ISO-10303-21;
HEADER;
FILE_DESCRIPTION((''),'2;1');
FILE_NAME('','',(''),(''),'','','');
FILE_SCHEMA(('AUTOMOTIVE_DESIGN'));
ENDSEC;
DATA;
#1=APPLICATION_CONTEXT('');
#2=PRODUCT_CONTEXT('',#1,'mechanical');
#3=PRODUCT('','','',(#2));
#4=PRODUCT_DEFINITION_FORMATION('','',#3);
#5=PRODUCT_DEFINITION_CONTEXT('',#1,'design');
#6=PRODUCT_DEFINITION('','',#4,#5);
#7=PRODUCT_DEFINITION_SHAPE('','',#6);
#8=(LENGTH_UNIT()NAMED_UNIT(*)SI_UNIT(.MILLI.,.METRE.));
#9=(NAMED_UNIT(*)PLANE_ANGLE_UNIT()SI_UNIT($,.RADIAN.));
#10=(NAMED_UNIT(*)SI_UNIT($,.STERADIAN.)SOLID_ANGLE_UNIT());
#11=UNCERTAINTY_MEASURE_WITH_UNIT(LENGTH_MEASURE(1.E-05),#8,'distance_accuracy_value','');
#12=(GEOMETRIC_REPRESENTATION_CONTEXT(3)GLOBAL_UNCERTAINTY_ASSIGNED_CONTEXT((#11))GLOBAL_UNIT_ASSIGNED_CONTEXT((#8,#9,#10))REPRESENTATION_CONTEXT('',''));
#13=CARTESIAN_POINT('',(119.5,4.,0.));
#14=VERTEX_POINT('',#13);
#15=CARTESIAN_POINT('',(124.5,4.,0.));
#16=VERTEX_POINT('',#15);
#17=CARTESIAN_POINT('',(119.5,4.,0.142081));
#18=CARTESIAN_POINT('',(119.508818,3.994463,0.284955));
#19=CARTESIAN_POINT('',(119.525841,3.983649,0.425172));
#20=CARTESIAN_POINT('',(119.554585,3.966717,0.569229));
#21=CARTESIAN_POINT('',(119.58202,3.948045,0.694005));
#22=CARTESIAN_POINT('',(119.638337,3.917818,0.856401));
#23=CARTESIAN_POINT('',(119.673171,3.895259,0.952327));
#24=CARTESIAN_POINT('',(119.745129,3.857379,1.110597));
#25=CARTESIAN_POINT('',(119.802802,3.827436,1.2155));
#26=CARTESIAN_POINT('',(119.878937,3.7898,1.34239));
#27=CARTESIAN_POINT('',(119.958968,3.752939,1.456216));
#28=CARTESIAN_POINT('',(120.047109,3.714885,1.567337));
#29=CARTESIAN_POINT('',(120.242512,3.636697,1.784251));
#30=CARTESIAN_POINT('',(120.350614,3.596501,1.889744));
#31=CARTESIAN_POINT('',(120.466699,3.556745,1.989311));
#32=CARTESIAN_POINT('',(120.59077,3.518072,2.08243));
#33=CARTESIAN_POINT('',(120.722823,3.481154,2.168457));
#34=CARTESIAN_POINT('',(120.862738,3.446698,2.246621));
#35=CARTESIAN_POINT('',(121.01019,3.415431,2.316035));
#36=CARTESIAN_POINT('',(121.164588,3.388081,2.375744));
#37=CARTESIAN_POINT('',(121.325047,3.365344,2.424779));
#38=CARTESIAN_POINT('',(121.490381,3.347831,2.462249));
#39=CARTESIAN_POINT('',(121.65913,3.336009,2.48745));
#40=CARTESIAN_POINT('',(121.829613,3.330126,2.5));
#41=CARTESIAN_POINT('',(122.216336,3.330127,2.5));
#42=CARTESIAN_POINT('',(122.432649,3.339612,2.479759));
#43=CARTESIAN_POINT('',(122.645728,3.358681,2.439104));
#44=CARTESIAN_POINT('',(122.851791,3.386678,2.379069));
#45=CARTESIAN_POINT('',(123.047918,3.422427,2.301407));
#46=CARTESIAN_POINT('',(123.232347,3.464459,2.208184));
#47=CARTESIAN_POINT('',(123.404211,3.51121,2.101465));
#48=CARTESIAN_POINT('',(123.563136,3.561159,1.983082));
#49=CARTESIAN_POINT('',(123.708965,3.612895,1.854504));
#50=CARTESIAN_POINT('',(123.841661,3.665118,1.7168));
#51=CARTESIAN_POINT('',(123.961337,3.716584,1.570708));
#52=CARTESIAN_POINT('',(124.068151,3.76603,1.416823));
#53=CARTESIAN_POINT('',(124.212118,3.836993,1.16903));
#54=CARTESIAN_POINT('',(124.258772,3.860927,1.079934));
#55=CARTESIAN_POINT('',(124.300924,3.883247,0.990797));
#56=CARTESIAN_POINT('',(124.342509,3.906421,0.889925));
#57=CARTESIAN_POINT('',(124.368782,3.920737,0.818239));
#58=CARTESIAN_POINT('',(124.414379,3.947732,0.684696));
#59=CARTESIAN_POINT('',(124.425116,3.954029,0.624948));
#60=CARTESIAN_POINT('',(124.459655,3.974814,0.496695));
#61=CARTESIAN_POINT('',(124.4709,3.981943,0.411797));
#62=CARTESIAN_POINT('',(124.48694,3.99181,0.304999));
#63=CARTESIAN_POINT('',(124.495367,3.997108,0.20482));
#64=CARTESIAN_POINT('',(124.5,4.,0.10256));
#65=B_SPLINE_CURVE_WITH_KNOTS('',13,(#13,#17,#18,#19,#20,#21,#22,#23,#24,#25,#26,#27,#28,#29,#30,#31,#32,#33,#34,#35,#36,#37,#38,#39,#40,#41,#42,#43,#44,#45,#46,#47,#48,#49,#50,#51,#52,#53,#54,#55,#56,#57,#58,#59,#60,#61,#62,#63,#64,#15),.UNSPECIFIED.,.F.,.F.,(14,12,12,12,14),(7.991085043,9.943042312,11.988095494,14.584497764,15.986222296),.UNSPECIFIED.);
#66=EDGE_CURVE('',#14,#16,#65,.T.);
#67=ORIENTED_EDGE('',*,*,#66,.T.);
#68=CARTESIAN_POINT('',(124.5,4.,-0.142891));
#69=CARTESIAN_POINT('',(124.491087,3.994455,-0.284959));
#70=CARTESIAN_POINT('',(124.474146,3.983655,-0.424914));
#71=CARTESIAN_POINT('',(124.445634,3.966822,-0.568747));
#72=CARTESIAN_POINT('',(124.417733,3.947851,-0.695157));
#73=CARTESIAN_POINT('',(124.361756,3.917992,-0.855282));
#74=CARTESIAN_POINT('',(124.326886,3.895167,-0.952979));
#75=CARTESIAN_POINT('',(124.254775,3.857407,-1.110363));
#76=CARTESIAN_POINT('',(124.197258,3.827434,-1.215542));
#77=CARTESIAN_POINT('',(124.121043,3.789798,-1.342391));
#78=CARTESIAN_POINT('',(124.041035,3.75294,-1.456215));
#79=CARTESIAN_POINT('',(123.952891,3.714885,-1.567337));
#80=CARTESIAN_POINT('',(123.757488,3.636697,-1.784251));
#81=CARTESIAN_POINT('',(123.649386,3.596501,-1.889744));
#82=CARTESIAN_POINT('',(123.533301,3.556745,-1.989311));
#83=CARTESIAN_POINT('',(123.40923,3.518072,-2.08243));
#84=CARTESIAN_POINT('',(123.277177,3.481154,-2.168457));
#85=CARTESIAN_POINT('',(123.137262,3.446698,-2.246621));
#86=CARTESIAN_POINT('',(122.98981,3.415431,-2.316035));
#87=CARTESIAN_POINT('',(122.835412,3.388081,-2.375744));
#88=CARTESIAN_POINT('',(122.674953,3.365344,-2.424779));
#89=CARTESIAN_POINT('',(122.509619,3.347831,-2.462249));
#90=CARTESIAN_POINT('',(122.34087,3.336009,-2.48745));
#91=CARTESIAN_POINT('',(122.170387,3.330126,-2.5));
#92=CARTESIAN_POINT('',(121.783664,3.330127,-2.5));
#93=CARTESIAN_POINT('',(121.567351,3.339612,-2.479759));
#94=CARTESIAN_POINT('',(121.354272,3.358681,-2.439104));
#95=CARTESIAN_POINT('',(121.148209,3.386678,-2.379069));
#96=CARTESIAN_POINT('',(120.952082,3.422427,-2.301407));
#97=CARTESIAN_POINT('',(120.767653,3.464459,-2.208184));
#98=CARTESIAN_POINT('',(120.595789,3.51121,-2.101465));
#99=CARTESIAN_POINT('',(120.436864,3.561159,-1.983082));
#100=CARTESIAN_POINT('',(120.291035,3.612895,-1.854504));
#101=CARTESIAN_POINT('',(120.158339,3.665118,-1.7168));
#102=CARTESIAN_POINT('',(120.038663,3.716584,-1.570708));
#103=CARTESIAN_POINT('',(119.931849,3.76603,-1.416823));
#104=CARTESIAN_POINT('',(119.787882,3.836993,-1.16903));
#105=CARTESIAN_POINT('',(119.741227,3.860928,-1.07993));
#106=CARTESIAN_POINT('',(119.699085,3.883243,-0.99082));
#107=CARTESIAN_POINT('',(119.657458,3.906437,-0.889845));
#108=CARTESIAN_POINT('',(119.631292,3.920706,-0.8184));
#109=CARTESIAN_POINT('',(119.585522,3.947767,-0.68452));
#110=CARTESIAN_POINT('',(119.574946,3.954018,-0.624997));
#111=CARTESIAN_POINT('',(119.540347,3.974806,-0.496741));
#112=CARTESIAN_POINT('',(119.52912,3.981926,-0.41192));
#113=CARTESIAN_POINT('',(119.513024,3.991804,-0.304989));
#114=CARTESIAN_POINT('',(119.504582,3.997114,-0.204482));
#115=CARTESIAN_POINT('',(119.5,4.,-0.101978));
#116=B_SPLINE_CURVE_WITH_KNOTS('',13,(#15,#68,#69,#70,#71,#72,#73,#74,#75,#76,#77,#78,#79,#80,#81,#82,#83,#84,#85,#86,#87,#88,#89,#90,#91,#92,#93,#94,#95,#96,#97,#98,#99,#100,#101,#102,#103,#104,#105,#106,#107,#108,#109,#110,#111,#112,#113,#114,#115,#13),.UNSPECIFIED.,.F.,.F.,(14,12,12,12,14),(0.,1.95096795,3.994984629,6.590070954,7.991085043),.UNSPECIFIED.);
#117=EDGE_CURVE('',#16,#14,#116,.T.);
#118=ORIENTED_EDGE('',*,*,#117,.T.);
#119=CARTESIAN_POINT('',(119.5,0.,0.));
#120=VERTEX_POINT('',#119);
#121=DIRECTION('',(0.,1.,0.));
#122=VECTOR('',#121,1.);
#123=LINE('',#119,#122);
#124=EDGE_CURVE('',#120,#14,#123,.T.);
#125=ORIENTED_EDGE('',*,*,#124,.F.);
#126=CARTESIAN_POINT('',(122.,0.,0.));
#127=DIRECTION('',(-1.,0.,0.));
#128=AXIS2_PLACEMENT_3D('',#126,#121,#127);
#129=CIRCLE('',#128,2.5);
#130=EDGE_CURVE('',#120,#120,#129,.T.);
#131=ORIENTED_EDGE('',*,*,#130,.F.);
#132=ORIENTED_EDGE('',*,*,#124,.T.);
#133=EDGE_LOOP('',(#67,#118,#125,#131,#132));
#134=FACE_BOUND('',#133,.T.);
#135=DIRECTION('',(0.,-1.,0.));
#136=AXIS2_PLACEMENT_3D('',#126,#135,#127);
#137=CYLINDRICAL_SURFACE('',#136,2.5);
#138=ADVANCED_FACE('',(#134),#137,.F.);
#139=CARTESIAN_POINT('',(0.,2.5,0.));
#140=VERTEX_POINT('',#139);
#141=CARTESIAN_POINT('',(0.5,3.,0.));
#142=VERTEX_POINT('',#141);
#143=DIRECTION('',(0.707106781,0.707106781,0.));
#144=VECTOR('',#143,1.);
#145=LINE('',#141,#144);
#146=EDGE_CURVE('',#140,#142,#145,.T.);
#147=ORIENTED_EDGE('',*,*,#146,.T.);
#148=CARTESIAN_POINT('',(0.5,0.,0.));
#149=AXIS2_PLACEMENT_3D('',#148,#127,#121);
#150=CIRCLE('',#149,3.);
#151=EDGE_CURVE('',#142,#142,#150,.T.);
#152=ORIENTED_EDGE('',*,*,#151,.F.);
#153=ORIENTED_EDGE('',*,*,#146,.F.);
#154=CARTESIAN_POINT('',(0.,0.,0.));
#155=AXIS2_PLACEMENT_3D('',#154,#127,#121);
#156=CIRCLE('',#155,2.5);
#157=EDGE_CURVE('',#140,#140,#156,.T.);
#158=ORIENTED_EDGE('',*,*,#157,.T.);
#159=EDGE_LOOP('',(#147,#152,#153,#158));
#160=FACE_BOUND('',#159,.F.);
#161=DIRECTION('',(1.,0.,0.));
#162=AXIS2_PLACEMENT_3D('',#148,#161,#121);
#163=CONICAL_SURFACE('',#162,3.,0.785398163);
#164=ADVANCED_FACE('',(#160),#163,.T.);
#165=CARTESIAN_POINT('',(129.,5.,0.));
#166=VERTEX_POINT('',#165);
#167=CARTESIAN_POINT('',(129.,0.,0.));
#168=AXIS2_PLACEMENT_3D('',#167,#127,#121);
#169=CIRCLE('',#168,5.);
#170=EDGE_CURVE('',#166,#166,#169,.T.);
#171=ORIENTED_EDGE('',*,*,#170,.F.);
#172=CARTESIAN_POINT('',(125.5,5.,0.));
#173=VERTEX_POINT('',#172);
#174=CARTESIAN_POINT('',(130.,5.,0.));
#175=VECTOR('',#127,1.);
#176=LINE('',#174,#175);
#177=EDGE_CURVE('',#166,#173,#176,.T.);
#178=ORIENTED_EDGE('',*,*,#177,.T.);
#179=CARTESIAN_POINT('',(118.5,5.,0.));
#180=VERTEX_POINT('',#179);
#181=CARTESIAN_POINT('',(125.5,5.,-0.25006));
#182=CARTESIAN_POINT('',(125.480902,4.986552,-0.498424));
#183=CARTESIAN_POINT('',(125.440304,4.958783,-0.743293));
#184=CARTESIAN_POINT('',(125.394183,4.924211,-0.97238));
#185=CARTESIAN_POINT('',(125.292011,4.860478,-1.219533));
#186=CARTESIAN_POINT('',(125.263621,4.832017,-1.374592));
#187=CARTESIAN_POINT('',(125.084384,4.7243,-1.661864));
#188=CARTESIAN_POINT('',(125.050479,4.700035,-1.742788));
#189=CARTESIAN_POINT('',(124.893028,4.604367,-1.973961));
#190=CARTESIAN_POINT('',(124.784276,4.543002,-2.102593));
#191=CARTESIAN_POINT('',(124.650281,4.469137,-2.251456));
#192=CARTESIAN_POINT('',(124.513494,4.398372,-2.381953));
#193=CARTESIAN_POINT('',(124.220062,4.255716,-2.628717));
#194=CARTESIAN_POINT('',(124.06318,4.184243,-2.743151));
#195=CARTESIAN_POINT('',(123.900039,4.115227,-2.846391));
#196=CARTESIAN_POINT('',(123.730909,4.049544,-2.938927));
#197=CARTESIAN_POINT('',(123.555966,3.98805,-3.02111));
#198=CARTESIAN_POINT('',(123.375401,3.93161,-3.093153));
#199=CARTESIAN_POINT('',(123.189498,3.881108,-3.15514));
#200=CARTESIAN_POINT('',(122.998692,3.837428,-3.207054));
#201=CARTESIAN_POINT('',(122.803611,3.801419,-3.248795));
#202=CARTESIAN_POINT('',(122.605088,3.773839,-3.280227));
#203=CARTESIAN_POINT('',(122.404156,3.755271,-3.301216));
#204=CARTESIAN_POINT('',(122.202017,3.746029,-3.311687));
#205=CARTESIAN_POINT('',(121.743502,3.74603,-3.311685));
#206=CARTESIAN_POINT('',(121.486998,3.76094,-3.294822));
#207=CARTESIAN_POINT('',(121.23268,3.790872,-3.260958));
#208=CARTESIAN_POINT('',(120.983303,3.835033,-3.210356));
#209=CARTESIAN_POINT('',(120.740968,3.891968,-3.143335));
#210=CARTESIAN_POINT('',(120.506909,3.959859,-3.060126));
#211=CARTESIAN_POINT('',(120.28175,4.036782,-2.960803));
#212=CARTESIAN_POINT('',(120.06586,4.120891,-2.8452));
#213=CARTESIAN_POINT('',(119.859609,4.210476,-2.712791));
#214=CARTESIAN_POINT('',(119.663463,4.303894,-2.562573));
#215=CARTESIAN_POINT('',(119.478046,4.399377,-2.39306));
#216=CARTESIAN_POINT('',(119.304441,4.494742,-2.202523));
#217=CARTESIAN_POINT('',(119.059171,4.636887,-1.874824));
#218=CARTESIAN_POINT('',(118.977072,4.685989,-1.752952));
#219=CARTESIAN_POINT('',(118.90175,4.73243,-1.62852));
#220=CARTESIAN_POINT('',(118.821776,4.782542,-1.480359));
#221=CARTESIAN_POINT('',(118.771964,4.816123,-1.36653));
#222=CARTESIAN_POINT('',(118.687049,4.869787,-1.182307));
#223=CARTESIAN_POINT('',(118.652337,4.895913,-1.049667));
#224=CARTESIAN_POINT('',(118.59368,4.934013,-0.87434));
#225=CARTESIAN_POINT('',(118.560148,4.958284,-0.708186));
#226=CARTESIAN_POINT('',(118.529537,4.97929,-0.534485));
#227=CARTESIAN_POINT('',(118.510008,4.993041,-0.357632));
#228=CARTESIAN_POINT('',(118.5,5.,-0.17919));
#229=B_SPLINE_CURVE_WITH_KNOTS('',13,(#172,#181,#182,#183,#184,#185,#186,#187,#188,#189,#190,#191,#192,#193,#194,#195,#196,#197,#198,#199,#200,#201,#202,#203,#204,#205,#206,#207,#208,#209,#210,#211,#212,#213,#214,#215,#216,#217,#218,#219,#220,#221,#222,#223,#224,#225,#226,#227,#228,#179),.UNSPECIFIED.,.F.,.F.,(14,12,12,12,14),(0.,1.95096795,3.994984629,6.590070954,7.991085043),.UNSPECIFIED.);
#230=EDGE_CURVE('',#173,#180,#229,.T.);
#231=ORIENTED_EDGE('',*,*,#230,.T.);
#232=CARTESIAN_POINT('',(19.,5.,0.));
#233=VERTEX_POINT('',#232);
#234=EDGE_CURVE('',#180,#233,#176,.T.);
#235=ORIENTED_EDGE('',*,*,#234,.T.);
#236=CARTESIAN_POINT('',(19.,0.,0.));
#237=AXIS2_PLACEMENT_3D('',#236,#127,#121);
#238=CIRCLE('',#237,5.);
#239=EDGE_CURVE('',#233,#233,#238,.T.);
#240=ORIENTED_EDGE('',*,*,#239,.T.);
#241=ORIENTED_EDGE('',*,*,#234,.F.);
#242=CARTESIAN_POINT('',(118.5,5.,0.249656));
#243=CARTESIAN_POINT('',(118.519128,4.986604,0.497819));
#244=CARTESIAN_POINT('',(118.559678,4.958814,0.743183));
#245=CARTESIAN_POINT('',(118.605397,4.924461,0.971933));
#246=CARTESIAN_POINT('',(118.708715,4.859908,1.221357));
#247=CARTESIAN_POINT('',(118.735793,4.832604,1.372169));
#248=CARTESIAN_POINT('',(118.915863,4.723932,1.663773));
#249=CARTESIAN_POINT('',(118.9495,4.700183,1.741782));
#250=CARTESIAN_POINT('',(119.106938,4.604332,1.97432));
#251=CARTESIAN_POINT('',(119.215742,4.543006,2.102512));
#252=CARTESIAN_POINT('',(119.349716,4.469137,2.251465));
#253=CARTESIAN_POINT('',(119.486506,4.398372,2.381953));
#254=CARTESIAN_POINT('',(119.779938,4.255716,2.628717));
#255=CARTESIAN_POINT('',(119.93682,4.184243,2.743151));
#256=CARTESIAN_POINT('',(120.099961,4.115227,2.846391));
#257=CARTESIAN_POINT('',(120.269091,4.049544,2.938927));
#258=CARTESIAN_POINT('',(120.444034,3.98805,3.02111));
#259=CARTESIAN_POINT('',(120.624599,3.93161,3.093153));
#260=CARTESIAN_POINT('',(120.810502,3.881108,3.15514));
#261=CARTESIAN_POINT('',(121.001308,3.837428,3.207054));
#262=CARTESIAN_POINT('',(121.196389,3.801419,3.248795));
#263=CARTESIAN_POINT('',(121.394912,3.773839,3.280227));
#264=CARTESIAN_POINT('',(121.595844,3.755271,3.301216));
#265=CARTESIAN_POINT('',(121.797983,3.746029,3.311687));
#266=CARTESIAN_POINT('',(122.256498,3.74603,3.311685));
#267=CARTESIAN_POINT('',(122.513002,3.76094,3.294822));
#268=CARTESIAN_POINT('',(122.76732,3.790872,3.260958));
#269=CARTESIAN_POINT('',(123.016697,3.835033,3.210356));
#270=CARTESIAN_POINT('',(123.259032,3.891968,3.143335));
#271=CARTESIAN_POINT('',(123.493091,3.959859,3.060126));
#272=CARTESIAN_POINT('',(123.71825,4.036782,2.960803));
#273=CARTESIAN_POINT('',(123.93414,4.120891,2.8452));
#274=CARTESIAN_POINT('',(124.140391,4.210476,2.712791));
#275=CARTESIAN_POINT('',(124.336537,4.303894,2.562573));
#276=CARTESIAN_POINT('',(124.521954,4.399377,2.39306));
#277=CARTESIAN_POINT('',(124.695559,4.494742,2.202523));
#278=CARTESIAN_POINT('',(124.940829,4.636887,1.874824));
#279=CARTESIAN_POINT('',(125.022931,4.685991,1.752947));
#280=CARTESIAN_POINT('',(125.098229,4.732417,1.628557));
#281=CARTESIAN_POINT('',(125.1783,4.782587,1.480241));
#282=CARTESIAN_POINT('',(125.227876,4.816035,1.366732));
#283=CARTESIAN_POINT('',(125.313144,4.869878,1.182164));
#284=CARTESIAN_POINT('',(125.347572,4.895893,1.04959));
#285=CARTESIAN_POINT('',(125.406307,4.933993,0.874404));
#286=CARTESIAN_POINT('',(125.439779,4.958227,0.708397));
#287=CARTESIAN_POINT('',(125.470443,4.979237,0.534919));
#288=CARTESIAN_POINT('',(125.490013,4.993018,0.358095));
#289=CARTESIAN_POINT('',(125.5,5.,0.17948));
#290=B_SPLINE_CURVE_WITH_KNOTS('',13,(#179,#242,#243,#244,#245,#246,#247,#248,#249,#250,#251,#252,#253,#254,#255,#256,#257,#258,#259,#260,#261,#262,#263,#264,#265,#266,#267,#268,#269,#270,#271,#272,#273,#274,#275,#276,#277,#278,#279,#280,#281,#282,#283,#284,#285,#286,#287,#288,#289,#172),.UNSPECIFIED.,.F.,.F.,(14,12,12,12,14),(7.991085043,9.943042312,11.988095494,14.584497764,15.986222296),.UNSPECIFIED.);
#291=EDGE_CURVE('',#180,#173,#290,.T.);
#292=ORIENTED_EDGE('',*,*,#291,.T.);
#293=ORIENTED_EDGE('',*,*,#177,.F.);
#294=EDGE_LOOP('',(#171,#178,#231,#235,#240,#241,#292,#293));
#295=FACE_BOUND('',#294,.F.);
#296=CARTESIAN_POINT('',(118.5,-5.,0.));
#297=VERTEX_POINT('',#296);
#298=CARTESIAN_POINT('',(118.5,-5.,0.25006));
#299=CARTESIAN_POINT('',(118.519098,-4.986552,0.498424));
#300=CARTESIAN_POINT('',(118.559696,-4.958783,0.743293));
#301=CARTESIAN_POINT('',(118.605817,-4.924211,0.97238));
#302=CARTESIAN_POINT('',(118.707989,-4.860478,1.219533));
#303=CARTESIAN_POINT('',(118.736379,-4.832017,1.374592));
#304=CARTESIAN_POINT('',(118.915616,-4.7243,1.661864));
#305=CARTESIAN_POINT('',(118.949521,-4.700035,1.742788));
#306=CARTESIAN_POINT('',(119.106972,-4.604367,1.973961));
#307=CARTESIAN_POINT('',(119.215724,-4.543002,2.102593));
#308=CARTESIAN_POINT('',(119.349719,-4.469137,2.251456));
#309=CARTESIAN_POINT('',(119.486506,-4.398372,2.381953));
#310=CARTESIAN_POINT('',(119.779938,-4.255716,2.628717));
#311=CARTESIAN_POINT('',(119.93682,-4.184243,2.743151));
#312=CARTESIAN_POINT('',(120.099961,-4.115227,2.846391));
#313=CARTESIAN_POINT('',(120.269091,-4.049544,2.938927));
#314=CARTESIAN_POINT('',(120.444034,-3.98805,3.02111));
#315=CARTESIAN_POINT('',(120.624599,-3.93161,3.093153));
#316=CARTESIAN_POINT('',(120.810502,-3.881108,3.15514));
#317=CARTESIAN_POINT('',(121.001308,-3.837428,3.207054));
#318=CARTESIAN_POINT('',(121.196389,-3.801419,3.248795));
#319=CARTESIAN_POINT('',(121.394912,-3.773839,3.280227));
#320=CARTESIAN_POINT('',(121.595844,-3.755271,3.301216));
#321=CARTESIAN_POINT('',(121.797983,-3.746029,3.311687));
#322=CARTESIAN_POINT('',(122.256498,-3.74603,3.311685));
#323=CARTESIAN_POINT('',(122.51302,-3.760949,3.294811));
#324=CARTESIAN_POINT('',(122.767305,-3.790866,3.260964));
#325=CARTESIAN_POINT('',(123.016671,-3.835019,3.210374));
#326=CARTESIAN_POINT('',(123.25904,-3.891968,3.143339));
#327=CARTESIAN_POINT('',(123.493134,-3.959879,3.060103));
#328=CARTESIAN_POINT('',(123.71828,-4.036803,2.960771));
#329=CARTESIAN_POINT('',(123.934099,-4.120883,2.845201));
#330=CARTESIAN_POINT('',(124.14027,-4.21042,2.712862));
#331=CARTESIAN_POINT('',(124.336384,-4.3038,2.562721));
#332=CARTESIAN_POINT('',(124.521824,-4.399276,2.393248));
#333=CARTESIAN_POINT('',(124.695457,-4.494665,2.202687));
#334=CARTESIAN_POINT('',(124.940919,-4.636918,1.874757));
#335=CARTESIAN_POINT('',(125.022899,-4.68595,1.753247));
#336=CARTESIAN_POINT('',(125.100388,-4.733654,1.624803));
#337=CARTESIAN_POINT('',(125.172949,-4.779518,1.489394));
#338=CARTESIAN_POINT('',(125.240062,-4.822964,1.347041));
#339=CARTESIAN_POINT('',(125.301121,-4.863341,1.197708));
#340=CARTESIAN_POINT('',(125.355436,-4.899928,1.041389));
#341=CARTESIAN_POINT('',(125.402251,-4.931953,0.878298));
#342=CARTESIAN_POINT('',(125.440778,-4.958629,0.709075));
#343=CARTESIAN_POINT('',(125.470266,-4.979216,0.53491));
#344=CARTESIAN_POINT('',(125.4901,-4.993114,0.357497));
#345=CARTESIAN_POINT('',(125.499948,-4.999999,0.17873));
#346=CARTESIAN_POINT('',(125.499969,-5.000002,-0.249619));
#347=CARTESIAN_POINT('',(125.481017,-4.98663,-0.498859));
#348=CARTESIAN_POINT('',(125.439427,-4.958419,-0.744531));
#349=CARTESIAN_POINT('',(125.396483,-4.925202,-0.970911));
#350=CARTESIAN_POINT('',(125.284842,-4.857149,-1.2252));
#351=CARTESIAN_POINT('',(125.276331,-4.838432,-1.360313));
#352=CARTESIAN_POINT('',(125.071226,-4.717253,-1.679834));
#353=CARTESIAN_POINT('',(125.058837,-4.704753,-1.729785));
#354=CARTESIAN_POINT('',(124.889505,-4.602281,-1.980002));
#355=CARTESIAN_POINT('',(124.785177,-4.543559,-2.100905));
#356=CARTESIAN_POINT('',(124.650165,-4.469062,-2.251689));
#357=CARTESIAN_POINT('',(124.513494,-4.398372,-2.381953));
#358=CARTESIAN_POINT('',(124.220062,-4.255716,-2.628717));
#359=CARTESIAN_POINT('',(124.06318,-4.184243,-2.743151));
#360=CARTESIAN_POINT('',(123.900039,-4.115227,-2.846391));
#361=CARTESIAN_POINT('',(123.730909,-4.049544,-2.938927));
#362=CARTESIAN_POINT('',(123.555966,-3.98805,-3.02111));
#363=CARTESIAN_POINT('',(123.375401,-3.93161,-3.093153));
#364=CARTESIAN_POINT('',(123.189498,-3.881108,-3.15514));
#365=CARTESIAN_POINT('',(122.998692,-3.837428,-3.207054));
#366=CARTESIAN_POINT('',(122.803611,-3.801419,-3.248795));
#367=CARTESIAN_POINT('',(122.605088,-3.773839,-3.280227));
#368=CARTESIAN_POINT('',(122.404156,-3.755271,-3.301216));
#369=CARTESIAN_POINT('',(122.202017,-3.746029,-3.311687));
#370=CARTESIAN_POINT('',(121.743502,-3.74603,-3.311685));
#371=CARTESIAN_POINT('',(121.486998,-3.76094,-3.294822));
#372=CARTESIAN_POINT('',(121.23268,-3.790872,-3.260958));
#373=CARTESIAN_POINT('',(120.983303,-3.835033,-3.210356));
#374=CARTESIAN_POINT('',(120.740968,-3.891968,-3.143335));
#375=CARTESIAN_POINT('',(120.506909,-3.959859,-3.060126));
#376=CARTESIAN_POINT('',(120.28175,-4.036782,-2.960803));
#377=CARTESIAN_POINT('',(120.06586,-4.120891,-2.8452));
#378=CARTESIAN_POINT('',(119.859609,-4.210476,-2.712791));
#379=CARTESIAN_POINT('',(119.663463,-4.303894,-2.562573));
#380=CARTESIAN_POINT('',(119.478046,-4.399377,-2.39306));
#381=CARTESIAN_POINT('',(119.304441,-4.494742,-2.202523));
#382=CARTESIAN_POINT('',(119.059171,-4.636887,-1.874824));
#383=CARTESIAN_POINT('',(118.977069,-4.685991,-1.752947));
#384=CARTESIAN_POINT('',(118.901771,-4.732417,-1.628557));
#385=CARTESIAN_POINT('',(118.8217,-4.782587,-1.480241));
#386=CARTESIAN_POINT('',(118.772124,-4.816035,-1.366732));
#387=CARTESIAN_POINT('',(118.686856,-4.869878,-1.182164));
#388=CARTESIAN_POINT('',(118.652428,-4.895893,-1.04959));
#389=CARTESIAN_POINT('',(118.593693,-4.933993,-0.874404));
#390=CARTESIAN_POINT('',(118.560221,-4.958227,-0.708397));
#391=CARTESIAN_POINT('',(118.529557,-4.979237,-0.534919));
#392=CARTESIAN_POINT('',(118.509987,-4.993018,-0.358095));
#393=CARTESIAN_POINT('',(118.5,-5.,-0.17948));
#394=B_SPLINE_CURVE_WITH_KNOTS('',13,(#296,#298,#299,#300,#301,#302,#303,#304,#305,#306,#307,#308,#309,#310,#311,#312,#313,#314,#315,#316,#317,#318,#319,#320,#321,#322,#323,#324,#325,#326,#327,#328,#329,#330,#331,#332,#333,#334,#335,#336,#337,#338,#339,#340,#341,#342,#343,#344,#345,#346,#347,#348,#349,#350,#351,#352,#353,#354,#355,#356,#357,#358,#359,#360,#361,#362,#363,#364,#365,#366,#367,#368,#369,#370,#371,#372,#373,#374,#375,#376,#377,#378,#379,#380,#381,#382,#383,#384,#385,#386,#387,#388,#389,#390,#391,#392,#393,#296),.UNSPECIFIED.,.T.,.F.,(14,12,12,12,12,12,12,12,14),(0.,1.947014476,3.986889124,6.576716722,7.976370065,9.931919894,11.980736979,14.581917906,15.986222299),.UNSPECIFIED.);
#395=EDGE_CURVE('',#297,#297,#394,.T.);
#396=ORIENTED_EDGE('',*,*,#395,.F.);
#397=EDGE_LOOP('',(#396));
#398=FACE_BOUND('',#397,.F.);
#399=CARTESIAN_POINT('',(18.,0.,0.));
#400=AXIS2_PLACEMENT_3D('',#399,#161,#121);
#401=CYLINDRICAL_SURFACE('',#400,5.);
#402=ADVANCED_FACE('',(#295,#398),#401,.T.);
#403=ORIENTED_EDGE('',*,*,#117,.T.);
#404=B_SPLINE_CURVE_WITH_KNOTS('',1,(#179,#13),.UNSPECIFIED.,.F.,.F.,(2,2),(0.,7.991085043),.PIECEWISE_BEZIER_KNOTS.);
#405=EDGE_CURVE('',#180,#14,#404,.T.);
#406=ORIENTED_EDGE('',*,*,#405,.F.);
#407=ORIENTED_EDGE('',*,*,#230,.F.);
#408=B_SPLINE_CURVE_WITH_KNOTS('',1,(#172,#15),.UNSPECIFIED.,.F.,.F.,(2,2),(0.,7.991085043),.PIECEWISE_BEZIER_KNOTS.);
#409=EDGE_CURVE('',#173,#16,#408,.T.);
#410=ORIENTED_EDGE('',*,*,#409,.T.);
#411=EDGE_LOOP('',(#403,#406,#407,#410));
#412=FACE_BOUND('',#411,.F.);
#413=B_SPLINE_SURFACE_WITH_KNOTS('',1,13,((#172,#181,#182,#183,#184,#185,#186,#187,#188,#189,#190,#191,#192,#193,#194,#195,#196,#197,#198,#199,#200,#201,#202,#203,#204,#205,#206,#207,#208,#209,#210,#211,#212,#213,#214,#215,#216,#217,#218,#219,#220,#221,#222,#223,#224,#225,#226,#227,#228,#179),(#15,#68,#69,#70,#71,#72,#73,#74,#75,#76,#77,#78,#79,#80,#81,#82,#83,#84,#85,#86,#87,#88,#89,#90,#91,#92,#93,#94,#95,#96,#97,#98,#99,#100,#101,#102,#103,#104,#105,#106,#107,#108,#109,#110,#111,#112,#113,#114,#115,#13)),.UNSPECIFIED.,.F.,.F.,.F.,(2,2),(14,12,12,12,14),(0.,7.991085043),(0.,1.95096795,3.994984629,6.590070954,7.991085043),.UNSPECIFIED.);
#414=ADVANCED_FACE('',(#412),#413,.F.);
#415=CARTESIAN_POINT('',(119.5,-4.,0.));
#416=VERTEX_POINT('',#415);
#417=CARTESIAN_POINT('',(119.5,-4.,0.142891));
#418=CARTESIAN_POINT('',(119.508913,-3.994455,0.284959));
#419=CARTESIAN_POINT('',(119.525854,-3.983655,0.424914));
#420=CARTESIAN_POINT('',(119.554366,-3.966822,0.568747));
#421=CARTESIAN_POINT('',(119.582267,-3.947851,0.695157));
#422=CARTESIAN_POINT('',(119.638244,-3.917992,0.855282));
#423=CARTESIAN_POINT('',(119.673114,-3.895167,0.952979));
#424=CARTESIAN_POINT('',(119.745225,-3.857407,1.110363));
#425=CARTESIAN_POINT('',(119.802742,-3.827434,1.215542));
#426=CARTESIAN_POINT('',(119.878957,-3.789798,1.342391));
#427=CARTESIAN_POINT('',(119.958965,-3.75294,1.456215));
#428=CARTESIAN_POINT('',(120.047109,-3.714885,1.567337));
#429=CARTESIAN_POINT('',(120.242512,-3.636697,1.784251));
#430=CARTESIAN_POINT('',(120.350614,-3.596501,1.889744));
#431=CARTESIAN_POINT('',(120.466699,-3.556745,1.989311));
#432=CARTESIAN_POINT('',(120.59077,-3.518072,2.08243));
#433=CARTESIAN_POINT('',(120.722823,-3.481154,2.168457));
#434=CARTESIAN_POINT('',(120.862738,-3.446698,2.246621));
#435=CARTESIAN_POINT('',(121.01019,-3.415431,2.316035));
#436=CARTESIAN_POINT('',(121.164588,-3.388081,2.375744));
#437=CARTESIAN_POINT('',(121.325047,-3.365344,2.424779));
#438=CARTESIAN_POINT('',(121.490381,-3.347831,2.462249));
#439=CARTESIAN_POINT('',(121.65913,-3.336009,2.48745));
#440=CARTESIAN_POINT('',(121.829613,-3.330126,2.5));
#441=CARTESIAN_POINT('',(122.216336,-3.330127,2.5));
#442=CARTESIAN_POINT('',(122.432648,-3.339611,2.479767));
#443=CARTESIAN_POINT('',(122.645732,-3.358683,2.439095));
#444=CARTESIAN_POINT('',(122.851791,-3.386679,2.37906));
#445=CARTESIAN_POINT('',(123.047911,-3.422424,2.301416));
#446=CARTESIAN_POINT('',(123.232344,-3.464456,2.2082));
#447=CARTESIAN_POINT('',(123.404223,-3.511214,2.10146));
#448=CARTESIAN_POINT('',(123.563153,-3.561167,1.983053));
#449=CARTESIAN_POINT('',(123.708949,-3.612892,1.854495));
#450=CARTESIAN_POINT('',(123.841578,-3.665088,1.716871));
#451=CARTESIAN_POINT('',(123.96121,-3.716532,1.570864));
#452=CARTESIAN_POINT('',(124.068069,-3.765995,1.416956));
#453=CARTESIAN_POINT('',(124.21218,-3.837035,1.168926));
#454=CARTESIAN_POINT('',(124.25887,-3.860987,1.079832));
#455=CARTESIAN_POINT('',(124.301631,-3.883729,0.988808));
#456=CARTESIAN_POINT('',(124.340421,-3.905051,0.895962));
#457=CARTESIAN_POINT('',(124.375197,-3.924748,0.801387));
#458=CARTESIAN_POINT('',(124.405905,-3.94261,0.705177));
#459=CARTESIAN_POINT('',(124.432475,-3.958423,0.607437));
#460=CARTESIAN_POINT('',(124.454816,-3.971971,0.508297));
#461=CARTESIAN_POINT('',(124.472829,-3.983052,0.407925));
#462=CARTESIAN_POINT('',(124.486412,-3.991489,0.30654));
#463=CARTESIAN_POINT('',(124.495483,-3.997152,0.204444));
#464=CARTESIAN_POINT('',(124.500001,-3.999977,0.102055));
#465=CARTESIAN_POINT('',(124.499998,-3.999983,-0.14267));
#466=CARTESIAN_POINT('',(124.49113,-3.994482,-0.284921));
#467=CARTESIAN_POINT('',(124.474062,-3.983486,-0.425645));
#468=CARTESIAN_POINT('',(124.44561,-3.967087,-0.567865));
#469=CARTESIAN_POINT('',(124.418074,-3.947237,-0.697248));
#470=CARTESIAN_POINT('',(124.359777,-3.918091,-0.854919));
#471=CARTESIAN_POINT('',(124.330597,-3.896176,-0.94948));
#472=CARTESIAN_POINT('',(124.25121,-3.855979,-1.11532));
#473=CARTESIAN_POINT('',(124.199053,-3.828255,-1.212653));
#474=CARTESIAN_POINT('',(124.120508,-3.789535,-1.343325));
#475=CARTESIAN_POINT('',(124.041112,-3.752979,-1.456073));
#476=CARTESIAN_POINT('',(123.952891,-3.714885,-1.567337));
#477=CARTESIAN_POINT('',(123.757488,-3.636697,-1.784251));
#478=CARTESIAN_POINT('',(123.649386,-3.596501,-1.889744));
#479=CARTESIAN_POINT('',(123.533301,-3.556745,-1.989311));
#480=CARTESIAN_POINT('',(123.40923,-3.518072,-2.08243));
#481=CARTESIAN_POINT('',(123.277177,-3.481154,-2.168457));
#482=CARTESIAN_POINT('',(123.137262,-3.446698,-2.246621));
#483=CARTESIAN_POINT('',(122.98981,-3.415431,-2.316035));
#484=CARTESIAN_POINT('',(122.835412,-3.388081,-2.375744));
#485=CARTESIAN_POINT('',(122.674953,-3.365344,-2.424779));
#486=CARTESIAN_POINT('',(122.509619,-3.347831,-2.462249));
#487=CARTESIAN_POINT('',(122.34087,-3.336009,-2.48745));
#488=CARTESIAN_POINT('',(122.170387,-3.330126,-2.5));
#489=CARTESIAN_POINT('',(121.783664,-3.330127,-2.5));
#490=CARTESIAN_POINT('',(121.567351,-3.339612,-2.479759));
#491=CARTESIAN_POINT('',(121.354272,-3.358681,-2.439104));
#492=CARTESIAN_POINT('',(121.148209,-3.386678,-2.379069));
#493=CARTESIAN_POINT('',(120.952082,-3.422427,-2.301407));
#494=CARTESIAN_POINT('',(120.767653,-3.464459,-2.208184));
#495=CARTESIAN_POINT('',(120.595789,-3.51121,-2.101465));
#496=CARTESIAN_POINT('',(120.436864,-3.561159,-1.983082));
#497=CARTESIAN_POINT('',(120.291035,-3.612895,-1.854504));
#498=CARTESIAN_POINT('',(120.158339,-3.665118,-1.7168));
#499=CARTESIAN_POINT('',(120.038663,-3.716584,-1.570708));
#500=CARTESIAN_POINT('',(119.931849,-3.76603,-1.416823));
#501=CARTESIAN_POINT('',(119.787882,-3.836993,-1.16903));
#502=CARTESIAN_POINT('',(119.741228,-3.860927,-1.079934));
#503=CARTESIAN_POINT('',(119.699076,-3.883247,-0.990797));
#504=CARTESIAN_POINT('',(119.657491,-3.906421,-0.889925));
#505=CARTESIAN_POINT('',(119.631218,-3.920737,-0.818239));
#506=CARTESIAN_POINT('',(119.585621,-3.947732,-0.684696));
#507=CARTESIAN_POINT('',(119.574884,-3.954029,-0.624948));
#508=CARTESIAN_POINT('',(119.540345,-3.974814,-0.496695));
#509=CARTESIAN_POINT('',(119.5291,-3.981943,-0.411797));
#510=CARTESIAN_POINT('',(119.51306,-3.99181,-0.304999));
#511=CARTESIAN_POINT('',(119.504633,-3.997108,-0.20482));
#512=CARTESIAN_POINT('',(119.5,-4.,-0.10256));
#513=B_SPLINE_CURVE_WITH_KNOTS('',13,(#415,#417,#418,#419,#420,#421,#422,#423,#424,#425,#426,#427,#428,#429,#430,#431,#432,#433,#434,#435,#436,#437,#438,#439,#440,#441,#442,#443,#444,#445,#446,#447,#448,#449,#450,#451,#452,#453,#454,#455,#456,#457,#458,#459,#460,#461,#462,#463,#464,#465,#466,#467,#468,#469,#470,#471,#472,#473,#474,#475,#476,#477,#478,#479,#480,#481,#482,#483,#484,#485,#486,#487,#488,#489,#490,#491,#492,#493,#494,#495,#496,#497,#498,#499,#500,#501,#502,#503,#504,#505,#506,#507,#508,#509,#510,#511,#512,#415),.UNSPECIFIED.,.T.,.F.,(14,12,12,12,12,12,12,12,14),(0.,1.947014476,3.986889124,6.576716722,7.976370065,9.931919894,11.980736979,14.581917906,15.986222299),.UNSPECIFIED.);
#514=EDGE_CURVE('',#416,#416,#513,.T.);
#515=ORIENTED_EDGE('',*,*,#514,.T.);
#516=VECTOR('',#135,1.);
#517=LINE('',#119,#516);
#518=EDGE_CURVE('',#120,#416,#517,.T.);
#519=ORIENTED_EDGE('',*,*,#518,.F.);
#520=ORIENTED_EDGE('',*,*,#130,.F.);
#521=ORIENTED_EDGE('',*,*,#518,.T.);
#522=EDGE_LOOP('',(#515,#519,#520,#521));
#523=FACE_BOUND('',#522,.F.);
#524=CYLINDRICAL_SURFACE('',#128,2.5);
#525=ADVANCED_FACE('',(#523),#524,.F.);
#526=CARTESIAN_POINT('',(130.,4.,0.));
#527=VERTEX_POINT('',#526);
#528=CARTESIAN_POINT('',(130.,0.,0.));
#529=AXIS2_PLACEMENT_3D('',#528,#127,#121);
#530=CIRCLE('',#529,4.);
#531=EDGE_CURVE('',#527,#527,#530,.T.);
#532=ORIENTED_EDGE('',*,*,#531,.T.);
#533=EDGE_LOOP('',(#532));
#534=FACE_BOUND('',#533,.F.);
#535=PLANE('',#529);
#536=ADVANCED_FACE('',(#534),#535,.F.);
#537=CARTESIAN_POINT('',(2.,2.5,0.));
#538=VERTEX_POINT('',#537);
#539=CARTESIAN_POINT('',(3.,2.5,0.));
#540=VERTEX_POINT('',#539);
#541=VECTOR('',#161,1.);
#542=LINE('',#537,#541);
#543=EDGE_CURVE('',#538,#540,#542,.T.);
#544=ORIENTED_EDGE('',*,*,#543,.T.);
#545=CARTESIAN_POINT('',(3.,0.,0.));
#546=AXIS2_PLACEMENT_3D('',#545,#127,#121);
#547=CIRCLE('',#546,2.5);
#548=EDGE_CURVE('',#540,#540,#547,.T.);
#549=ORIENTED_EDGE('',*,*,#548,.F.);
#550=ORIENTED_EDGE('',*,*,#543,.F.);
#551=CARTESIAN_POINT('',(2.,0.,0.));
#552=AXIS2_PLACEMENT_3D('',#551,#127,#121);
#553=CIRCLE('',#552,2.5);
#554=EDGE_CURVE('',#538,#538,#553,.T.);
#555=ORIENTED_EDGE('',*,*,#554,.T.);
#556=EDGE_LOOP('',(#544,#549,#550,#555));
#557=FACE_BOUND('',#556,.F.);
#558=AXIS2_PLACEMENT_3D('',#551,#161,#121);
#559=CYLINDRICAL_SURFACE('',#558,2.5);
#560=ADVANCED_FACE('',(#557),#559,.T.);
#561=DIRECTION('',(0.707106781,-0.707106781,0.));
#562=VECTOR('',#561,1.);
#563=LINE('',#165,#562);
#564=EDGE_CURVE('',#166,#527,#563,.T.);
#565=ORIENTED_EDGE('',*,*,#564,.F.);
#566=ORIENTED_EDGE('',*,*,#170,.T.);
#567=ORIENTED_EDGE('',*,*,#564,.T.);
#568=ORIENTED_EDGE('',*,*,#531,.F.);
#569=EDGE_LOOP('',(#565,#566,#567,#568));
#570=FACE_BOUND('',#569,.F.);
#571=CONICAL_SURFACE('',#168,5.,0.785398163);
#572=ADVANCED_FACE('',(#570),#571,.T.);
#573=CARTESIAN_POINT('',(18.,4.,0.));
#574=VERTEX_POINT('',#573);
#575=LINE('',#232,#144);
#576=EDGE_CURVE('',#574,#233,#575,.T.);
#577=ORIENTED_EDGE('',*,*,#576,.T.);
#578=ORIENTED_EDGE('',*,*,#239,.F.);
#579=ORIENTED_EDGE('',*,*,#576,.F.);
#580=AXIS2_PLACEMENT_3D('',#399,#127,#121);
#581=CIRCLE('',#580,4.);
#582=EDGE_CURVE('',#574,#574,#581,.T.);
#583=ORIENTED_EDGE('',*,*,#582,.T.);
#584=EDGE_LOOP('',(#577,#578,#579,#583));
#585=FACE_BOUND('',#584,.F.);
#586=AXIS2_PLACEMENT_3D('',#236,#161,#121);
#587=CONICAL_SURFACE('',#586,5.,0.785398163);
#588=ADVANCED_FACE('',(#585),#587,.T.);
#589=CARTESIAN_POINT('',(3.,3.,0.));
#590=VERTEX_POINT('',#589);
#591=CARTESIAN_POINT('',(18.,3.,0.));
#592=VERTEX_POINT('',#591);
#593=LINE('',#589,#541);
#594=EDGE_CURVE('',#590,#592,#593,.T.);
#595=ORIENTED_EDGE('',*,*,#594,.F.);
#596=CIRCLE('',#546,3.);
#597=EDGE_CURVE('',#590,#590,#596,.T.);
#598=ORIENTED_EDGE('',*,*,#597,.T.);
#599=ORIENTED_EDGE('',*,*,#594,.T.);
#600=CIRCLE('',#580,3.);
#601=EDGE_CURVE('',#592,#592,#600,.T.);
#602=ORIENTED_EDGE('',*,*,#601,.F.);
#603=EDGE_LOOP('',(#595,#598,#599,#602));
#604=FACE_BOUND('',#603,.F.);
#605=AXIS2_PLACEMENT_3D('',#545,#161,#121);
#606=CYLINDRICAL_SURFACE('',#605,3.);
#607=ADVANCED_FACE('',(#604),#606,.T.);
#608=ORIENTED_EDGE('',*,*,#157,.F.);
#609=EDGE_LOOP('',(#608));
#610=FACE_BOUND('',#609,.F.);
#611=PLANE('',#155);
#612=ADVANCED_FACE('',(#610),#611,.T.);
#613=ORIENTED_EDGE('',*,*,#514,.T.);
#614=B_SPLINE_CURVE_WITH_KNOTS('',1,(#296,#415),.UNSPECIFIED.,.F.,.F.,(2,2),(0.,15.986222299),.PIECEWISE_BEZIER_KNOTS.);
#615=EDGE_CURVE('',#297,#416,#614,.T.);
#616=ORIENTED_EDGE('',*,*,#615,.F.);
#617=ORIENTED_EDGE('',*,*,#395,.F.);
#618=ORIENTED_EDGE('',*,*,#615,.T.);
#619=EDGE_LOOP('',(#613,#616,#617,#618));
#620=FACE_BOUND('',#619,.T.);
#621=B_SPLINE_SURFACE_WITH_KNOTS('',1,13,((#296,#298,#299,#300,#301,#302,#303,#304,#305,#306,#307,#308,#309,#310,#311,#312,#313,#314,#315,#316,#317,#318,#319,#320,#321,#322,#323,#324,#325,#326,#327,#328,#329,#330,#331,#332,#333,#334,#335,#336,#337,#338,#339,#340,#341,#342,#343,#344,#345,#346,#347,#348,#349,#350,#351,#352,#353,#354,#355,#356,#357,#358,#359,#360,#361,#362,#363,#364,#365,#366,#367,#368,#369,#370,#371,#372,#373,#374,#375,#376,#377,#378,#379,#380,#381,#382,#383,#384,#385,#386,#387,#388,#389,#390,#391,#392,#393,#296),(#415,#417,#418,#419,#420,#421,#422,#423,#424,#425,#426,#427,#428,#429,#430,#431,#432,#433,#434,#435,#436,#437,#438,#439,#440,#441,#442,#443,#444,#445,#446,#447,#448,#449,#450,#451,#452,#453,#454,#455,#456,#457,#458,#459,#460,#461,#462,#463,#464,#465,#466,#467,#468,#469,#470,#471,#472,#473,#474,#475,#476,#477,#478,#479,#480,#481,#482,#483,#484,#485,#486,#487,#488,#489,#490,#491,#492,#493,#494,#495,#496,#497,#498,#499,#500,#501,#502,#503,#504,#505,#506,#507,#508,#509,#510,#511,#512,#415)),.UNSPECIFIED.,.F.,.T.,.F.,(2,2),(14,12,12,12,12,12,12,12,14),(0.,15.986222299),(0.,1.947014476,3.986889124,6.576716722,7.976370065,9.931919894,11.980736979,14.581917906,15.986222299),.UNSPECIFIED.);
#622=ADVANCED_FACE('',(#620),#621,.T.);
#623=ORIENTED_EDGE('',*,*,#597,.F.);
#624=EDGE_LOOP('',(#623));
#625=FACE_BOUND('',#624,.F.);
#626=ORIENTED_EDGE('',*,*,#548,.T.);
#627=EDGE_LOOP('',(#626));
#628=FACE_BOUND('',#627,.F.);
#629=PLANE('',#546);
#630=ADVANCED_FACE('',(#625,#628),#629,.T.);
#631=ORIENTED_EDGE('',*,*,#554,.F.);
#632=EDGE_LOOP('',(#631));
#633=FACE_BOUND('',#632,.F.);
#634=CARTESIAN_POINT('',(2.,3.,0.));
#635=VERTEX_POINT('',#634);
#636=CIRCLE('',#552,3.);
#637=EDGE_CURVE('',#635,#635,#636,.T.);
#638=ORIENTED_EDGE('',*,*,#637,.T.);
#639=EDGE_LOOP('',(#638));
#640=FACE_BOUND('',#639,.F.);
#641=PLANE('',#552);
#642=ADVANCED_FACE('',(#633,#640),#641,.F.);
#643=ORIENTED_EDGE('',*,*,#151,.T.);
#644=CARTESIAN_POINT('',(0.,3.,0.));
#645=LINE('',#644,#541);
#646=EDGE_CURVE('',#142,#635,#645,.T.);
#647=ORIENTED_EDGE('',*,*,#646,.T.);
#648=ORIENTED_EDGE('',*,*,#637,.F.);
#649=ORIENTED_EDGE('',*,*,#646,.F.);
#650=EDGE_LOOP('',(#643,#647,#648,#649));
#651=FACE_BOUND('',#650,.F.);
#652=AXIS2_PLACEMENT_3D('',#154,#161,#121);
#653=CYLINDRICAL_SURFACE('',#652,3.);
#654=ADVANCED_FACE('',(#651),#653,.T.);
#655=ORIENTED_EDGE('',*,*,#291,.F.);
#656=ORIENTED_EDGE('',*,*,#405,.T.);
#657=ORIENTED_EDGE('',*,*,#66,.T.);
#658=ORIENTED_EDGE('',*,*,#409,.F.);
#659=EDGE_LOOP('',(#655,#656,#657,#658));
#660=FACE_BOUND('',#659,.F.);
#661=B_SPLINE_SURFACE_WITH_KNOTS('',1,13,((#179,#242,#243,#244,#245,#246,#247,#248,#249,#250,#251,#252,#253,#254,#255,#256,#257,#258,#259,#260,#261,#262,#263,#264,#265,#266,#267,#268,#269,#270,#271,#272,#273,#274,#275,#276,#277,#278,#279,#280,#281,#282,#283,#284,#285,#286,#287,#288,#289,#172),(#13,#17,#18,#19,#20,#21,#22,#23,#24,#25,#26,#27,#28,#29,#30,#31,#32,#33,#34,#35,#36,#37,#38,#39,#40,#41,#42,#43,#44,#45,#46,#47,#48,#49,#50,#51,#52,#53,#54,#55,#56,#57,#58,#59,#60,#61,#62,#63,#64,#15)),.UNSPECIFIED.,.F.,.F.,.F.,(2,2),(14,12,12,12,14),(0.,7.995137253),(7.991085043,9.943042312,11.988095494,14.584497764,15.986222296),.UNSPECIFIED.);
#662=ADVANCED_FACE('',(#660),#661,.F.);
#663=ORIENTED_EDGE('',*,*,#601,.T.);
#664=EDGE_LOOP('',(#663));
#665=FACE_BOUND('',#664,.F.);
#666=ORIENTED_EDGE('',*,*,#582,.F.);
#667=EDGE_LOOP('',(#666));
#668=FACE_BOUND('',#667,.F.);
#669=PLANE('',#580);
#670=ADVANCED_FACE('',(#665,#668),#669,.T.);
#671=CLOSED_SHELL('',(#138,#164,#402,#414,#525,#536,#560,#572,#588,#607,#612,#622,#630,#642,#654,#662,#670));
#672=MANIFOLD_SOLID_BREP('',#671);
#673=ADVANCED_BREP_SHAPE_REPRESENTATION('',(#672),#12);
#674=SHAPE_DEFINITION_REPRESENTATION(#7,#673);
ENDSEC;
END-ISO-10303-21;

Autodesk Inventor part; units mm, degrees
ref_plane "YZ Plane" through (0, 0, 0) normal (1, 0, 0) x (0, 1, 0)
ref_plane "XZ Plane" through (0, 0, 0) normal (0, 1, 0) x (-1, 0, 0)
ref_plane "XY Plane" through (0, 0, 0) normal (0, 0, 1) x (1, 0, 0)
sketch "Sketch1" plane through (0, 0, 0) normal (0, 0, 1) x (1, 0, 0)
  line L0 (0, 0) -> (0, 3)
  line L1 (0, 3) -> (2, 3)
  line L2 (2, 3) -> (2, 2.5)
  line L3 (2, 2.5) -> (3, 2.5)
  line L4 (3, 2.5) -> (3, 3)
  line L5 (3, 3) -> (18, 3)
  line L6 (18, 3) -> (18, 5)
  line L7 (18, 5) -> (130, 5)
  line L8 (130, 5) -> (130, 0)
  line L9 (130, 0) -> (0, 0)
  line L10 (122, 5) -> (122, 0)
  dimension "d0" = 1
  dimension "d2" = 3
  dimension "d3" = 6
  dimension "d4" = 5
  dimension "d5" = 130
  dimension "d6" = 18
  dimension "d7" = 10
  dimension "d8" = 8
revolve "Revolution1" add sketch "Sketch1" angle 360 about axis through (130, 0, 0) along (-1, 0, 0)
thread "Thread1" size "M10x1.5" class "6g" standard "ISO Metric profile" length 90
chamfer "Chamfer2" distance 0.5 angle 45 1 edges at (0, -3, 0)
sketch "Sketch2" plane through (0, 0, 0) normal (0, 1, 0) x (-1, 0, 0)
  circle A0 centre (-122, 0) radius 2.5
  point P0 (0, 0)
  dimension "d21" = 5
extrude "Extrusion1" cut sketch "Sketch2" along normal through all both and the other way through all
chamfer "Chamfer3" distance 1 angle 45 5 edges at (18, -5, 0) (130, -5, 0) (121.9995, 4.3301, -2.5) (122.0005, 4.3301, 2.5) (124.4999, -5, -0.0199)
properties part number "Rod" material "Stainless Steel"
